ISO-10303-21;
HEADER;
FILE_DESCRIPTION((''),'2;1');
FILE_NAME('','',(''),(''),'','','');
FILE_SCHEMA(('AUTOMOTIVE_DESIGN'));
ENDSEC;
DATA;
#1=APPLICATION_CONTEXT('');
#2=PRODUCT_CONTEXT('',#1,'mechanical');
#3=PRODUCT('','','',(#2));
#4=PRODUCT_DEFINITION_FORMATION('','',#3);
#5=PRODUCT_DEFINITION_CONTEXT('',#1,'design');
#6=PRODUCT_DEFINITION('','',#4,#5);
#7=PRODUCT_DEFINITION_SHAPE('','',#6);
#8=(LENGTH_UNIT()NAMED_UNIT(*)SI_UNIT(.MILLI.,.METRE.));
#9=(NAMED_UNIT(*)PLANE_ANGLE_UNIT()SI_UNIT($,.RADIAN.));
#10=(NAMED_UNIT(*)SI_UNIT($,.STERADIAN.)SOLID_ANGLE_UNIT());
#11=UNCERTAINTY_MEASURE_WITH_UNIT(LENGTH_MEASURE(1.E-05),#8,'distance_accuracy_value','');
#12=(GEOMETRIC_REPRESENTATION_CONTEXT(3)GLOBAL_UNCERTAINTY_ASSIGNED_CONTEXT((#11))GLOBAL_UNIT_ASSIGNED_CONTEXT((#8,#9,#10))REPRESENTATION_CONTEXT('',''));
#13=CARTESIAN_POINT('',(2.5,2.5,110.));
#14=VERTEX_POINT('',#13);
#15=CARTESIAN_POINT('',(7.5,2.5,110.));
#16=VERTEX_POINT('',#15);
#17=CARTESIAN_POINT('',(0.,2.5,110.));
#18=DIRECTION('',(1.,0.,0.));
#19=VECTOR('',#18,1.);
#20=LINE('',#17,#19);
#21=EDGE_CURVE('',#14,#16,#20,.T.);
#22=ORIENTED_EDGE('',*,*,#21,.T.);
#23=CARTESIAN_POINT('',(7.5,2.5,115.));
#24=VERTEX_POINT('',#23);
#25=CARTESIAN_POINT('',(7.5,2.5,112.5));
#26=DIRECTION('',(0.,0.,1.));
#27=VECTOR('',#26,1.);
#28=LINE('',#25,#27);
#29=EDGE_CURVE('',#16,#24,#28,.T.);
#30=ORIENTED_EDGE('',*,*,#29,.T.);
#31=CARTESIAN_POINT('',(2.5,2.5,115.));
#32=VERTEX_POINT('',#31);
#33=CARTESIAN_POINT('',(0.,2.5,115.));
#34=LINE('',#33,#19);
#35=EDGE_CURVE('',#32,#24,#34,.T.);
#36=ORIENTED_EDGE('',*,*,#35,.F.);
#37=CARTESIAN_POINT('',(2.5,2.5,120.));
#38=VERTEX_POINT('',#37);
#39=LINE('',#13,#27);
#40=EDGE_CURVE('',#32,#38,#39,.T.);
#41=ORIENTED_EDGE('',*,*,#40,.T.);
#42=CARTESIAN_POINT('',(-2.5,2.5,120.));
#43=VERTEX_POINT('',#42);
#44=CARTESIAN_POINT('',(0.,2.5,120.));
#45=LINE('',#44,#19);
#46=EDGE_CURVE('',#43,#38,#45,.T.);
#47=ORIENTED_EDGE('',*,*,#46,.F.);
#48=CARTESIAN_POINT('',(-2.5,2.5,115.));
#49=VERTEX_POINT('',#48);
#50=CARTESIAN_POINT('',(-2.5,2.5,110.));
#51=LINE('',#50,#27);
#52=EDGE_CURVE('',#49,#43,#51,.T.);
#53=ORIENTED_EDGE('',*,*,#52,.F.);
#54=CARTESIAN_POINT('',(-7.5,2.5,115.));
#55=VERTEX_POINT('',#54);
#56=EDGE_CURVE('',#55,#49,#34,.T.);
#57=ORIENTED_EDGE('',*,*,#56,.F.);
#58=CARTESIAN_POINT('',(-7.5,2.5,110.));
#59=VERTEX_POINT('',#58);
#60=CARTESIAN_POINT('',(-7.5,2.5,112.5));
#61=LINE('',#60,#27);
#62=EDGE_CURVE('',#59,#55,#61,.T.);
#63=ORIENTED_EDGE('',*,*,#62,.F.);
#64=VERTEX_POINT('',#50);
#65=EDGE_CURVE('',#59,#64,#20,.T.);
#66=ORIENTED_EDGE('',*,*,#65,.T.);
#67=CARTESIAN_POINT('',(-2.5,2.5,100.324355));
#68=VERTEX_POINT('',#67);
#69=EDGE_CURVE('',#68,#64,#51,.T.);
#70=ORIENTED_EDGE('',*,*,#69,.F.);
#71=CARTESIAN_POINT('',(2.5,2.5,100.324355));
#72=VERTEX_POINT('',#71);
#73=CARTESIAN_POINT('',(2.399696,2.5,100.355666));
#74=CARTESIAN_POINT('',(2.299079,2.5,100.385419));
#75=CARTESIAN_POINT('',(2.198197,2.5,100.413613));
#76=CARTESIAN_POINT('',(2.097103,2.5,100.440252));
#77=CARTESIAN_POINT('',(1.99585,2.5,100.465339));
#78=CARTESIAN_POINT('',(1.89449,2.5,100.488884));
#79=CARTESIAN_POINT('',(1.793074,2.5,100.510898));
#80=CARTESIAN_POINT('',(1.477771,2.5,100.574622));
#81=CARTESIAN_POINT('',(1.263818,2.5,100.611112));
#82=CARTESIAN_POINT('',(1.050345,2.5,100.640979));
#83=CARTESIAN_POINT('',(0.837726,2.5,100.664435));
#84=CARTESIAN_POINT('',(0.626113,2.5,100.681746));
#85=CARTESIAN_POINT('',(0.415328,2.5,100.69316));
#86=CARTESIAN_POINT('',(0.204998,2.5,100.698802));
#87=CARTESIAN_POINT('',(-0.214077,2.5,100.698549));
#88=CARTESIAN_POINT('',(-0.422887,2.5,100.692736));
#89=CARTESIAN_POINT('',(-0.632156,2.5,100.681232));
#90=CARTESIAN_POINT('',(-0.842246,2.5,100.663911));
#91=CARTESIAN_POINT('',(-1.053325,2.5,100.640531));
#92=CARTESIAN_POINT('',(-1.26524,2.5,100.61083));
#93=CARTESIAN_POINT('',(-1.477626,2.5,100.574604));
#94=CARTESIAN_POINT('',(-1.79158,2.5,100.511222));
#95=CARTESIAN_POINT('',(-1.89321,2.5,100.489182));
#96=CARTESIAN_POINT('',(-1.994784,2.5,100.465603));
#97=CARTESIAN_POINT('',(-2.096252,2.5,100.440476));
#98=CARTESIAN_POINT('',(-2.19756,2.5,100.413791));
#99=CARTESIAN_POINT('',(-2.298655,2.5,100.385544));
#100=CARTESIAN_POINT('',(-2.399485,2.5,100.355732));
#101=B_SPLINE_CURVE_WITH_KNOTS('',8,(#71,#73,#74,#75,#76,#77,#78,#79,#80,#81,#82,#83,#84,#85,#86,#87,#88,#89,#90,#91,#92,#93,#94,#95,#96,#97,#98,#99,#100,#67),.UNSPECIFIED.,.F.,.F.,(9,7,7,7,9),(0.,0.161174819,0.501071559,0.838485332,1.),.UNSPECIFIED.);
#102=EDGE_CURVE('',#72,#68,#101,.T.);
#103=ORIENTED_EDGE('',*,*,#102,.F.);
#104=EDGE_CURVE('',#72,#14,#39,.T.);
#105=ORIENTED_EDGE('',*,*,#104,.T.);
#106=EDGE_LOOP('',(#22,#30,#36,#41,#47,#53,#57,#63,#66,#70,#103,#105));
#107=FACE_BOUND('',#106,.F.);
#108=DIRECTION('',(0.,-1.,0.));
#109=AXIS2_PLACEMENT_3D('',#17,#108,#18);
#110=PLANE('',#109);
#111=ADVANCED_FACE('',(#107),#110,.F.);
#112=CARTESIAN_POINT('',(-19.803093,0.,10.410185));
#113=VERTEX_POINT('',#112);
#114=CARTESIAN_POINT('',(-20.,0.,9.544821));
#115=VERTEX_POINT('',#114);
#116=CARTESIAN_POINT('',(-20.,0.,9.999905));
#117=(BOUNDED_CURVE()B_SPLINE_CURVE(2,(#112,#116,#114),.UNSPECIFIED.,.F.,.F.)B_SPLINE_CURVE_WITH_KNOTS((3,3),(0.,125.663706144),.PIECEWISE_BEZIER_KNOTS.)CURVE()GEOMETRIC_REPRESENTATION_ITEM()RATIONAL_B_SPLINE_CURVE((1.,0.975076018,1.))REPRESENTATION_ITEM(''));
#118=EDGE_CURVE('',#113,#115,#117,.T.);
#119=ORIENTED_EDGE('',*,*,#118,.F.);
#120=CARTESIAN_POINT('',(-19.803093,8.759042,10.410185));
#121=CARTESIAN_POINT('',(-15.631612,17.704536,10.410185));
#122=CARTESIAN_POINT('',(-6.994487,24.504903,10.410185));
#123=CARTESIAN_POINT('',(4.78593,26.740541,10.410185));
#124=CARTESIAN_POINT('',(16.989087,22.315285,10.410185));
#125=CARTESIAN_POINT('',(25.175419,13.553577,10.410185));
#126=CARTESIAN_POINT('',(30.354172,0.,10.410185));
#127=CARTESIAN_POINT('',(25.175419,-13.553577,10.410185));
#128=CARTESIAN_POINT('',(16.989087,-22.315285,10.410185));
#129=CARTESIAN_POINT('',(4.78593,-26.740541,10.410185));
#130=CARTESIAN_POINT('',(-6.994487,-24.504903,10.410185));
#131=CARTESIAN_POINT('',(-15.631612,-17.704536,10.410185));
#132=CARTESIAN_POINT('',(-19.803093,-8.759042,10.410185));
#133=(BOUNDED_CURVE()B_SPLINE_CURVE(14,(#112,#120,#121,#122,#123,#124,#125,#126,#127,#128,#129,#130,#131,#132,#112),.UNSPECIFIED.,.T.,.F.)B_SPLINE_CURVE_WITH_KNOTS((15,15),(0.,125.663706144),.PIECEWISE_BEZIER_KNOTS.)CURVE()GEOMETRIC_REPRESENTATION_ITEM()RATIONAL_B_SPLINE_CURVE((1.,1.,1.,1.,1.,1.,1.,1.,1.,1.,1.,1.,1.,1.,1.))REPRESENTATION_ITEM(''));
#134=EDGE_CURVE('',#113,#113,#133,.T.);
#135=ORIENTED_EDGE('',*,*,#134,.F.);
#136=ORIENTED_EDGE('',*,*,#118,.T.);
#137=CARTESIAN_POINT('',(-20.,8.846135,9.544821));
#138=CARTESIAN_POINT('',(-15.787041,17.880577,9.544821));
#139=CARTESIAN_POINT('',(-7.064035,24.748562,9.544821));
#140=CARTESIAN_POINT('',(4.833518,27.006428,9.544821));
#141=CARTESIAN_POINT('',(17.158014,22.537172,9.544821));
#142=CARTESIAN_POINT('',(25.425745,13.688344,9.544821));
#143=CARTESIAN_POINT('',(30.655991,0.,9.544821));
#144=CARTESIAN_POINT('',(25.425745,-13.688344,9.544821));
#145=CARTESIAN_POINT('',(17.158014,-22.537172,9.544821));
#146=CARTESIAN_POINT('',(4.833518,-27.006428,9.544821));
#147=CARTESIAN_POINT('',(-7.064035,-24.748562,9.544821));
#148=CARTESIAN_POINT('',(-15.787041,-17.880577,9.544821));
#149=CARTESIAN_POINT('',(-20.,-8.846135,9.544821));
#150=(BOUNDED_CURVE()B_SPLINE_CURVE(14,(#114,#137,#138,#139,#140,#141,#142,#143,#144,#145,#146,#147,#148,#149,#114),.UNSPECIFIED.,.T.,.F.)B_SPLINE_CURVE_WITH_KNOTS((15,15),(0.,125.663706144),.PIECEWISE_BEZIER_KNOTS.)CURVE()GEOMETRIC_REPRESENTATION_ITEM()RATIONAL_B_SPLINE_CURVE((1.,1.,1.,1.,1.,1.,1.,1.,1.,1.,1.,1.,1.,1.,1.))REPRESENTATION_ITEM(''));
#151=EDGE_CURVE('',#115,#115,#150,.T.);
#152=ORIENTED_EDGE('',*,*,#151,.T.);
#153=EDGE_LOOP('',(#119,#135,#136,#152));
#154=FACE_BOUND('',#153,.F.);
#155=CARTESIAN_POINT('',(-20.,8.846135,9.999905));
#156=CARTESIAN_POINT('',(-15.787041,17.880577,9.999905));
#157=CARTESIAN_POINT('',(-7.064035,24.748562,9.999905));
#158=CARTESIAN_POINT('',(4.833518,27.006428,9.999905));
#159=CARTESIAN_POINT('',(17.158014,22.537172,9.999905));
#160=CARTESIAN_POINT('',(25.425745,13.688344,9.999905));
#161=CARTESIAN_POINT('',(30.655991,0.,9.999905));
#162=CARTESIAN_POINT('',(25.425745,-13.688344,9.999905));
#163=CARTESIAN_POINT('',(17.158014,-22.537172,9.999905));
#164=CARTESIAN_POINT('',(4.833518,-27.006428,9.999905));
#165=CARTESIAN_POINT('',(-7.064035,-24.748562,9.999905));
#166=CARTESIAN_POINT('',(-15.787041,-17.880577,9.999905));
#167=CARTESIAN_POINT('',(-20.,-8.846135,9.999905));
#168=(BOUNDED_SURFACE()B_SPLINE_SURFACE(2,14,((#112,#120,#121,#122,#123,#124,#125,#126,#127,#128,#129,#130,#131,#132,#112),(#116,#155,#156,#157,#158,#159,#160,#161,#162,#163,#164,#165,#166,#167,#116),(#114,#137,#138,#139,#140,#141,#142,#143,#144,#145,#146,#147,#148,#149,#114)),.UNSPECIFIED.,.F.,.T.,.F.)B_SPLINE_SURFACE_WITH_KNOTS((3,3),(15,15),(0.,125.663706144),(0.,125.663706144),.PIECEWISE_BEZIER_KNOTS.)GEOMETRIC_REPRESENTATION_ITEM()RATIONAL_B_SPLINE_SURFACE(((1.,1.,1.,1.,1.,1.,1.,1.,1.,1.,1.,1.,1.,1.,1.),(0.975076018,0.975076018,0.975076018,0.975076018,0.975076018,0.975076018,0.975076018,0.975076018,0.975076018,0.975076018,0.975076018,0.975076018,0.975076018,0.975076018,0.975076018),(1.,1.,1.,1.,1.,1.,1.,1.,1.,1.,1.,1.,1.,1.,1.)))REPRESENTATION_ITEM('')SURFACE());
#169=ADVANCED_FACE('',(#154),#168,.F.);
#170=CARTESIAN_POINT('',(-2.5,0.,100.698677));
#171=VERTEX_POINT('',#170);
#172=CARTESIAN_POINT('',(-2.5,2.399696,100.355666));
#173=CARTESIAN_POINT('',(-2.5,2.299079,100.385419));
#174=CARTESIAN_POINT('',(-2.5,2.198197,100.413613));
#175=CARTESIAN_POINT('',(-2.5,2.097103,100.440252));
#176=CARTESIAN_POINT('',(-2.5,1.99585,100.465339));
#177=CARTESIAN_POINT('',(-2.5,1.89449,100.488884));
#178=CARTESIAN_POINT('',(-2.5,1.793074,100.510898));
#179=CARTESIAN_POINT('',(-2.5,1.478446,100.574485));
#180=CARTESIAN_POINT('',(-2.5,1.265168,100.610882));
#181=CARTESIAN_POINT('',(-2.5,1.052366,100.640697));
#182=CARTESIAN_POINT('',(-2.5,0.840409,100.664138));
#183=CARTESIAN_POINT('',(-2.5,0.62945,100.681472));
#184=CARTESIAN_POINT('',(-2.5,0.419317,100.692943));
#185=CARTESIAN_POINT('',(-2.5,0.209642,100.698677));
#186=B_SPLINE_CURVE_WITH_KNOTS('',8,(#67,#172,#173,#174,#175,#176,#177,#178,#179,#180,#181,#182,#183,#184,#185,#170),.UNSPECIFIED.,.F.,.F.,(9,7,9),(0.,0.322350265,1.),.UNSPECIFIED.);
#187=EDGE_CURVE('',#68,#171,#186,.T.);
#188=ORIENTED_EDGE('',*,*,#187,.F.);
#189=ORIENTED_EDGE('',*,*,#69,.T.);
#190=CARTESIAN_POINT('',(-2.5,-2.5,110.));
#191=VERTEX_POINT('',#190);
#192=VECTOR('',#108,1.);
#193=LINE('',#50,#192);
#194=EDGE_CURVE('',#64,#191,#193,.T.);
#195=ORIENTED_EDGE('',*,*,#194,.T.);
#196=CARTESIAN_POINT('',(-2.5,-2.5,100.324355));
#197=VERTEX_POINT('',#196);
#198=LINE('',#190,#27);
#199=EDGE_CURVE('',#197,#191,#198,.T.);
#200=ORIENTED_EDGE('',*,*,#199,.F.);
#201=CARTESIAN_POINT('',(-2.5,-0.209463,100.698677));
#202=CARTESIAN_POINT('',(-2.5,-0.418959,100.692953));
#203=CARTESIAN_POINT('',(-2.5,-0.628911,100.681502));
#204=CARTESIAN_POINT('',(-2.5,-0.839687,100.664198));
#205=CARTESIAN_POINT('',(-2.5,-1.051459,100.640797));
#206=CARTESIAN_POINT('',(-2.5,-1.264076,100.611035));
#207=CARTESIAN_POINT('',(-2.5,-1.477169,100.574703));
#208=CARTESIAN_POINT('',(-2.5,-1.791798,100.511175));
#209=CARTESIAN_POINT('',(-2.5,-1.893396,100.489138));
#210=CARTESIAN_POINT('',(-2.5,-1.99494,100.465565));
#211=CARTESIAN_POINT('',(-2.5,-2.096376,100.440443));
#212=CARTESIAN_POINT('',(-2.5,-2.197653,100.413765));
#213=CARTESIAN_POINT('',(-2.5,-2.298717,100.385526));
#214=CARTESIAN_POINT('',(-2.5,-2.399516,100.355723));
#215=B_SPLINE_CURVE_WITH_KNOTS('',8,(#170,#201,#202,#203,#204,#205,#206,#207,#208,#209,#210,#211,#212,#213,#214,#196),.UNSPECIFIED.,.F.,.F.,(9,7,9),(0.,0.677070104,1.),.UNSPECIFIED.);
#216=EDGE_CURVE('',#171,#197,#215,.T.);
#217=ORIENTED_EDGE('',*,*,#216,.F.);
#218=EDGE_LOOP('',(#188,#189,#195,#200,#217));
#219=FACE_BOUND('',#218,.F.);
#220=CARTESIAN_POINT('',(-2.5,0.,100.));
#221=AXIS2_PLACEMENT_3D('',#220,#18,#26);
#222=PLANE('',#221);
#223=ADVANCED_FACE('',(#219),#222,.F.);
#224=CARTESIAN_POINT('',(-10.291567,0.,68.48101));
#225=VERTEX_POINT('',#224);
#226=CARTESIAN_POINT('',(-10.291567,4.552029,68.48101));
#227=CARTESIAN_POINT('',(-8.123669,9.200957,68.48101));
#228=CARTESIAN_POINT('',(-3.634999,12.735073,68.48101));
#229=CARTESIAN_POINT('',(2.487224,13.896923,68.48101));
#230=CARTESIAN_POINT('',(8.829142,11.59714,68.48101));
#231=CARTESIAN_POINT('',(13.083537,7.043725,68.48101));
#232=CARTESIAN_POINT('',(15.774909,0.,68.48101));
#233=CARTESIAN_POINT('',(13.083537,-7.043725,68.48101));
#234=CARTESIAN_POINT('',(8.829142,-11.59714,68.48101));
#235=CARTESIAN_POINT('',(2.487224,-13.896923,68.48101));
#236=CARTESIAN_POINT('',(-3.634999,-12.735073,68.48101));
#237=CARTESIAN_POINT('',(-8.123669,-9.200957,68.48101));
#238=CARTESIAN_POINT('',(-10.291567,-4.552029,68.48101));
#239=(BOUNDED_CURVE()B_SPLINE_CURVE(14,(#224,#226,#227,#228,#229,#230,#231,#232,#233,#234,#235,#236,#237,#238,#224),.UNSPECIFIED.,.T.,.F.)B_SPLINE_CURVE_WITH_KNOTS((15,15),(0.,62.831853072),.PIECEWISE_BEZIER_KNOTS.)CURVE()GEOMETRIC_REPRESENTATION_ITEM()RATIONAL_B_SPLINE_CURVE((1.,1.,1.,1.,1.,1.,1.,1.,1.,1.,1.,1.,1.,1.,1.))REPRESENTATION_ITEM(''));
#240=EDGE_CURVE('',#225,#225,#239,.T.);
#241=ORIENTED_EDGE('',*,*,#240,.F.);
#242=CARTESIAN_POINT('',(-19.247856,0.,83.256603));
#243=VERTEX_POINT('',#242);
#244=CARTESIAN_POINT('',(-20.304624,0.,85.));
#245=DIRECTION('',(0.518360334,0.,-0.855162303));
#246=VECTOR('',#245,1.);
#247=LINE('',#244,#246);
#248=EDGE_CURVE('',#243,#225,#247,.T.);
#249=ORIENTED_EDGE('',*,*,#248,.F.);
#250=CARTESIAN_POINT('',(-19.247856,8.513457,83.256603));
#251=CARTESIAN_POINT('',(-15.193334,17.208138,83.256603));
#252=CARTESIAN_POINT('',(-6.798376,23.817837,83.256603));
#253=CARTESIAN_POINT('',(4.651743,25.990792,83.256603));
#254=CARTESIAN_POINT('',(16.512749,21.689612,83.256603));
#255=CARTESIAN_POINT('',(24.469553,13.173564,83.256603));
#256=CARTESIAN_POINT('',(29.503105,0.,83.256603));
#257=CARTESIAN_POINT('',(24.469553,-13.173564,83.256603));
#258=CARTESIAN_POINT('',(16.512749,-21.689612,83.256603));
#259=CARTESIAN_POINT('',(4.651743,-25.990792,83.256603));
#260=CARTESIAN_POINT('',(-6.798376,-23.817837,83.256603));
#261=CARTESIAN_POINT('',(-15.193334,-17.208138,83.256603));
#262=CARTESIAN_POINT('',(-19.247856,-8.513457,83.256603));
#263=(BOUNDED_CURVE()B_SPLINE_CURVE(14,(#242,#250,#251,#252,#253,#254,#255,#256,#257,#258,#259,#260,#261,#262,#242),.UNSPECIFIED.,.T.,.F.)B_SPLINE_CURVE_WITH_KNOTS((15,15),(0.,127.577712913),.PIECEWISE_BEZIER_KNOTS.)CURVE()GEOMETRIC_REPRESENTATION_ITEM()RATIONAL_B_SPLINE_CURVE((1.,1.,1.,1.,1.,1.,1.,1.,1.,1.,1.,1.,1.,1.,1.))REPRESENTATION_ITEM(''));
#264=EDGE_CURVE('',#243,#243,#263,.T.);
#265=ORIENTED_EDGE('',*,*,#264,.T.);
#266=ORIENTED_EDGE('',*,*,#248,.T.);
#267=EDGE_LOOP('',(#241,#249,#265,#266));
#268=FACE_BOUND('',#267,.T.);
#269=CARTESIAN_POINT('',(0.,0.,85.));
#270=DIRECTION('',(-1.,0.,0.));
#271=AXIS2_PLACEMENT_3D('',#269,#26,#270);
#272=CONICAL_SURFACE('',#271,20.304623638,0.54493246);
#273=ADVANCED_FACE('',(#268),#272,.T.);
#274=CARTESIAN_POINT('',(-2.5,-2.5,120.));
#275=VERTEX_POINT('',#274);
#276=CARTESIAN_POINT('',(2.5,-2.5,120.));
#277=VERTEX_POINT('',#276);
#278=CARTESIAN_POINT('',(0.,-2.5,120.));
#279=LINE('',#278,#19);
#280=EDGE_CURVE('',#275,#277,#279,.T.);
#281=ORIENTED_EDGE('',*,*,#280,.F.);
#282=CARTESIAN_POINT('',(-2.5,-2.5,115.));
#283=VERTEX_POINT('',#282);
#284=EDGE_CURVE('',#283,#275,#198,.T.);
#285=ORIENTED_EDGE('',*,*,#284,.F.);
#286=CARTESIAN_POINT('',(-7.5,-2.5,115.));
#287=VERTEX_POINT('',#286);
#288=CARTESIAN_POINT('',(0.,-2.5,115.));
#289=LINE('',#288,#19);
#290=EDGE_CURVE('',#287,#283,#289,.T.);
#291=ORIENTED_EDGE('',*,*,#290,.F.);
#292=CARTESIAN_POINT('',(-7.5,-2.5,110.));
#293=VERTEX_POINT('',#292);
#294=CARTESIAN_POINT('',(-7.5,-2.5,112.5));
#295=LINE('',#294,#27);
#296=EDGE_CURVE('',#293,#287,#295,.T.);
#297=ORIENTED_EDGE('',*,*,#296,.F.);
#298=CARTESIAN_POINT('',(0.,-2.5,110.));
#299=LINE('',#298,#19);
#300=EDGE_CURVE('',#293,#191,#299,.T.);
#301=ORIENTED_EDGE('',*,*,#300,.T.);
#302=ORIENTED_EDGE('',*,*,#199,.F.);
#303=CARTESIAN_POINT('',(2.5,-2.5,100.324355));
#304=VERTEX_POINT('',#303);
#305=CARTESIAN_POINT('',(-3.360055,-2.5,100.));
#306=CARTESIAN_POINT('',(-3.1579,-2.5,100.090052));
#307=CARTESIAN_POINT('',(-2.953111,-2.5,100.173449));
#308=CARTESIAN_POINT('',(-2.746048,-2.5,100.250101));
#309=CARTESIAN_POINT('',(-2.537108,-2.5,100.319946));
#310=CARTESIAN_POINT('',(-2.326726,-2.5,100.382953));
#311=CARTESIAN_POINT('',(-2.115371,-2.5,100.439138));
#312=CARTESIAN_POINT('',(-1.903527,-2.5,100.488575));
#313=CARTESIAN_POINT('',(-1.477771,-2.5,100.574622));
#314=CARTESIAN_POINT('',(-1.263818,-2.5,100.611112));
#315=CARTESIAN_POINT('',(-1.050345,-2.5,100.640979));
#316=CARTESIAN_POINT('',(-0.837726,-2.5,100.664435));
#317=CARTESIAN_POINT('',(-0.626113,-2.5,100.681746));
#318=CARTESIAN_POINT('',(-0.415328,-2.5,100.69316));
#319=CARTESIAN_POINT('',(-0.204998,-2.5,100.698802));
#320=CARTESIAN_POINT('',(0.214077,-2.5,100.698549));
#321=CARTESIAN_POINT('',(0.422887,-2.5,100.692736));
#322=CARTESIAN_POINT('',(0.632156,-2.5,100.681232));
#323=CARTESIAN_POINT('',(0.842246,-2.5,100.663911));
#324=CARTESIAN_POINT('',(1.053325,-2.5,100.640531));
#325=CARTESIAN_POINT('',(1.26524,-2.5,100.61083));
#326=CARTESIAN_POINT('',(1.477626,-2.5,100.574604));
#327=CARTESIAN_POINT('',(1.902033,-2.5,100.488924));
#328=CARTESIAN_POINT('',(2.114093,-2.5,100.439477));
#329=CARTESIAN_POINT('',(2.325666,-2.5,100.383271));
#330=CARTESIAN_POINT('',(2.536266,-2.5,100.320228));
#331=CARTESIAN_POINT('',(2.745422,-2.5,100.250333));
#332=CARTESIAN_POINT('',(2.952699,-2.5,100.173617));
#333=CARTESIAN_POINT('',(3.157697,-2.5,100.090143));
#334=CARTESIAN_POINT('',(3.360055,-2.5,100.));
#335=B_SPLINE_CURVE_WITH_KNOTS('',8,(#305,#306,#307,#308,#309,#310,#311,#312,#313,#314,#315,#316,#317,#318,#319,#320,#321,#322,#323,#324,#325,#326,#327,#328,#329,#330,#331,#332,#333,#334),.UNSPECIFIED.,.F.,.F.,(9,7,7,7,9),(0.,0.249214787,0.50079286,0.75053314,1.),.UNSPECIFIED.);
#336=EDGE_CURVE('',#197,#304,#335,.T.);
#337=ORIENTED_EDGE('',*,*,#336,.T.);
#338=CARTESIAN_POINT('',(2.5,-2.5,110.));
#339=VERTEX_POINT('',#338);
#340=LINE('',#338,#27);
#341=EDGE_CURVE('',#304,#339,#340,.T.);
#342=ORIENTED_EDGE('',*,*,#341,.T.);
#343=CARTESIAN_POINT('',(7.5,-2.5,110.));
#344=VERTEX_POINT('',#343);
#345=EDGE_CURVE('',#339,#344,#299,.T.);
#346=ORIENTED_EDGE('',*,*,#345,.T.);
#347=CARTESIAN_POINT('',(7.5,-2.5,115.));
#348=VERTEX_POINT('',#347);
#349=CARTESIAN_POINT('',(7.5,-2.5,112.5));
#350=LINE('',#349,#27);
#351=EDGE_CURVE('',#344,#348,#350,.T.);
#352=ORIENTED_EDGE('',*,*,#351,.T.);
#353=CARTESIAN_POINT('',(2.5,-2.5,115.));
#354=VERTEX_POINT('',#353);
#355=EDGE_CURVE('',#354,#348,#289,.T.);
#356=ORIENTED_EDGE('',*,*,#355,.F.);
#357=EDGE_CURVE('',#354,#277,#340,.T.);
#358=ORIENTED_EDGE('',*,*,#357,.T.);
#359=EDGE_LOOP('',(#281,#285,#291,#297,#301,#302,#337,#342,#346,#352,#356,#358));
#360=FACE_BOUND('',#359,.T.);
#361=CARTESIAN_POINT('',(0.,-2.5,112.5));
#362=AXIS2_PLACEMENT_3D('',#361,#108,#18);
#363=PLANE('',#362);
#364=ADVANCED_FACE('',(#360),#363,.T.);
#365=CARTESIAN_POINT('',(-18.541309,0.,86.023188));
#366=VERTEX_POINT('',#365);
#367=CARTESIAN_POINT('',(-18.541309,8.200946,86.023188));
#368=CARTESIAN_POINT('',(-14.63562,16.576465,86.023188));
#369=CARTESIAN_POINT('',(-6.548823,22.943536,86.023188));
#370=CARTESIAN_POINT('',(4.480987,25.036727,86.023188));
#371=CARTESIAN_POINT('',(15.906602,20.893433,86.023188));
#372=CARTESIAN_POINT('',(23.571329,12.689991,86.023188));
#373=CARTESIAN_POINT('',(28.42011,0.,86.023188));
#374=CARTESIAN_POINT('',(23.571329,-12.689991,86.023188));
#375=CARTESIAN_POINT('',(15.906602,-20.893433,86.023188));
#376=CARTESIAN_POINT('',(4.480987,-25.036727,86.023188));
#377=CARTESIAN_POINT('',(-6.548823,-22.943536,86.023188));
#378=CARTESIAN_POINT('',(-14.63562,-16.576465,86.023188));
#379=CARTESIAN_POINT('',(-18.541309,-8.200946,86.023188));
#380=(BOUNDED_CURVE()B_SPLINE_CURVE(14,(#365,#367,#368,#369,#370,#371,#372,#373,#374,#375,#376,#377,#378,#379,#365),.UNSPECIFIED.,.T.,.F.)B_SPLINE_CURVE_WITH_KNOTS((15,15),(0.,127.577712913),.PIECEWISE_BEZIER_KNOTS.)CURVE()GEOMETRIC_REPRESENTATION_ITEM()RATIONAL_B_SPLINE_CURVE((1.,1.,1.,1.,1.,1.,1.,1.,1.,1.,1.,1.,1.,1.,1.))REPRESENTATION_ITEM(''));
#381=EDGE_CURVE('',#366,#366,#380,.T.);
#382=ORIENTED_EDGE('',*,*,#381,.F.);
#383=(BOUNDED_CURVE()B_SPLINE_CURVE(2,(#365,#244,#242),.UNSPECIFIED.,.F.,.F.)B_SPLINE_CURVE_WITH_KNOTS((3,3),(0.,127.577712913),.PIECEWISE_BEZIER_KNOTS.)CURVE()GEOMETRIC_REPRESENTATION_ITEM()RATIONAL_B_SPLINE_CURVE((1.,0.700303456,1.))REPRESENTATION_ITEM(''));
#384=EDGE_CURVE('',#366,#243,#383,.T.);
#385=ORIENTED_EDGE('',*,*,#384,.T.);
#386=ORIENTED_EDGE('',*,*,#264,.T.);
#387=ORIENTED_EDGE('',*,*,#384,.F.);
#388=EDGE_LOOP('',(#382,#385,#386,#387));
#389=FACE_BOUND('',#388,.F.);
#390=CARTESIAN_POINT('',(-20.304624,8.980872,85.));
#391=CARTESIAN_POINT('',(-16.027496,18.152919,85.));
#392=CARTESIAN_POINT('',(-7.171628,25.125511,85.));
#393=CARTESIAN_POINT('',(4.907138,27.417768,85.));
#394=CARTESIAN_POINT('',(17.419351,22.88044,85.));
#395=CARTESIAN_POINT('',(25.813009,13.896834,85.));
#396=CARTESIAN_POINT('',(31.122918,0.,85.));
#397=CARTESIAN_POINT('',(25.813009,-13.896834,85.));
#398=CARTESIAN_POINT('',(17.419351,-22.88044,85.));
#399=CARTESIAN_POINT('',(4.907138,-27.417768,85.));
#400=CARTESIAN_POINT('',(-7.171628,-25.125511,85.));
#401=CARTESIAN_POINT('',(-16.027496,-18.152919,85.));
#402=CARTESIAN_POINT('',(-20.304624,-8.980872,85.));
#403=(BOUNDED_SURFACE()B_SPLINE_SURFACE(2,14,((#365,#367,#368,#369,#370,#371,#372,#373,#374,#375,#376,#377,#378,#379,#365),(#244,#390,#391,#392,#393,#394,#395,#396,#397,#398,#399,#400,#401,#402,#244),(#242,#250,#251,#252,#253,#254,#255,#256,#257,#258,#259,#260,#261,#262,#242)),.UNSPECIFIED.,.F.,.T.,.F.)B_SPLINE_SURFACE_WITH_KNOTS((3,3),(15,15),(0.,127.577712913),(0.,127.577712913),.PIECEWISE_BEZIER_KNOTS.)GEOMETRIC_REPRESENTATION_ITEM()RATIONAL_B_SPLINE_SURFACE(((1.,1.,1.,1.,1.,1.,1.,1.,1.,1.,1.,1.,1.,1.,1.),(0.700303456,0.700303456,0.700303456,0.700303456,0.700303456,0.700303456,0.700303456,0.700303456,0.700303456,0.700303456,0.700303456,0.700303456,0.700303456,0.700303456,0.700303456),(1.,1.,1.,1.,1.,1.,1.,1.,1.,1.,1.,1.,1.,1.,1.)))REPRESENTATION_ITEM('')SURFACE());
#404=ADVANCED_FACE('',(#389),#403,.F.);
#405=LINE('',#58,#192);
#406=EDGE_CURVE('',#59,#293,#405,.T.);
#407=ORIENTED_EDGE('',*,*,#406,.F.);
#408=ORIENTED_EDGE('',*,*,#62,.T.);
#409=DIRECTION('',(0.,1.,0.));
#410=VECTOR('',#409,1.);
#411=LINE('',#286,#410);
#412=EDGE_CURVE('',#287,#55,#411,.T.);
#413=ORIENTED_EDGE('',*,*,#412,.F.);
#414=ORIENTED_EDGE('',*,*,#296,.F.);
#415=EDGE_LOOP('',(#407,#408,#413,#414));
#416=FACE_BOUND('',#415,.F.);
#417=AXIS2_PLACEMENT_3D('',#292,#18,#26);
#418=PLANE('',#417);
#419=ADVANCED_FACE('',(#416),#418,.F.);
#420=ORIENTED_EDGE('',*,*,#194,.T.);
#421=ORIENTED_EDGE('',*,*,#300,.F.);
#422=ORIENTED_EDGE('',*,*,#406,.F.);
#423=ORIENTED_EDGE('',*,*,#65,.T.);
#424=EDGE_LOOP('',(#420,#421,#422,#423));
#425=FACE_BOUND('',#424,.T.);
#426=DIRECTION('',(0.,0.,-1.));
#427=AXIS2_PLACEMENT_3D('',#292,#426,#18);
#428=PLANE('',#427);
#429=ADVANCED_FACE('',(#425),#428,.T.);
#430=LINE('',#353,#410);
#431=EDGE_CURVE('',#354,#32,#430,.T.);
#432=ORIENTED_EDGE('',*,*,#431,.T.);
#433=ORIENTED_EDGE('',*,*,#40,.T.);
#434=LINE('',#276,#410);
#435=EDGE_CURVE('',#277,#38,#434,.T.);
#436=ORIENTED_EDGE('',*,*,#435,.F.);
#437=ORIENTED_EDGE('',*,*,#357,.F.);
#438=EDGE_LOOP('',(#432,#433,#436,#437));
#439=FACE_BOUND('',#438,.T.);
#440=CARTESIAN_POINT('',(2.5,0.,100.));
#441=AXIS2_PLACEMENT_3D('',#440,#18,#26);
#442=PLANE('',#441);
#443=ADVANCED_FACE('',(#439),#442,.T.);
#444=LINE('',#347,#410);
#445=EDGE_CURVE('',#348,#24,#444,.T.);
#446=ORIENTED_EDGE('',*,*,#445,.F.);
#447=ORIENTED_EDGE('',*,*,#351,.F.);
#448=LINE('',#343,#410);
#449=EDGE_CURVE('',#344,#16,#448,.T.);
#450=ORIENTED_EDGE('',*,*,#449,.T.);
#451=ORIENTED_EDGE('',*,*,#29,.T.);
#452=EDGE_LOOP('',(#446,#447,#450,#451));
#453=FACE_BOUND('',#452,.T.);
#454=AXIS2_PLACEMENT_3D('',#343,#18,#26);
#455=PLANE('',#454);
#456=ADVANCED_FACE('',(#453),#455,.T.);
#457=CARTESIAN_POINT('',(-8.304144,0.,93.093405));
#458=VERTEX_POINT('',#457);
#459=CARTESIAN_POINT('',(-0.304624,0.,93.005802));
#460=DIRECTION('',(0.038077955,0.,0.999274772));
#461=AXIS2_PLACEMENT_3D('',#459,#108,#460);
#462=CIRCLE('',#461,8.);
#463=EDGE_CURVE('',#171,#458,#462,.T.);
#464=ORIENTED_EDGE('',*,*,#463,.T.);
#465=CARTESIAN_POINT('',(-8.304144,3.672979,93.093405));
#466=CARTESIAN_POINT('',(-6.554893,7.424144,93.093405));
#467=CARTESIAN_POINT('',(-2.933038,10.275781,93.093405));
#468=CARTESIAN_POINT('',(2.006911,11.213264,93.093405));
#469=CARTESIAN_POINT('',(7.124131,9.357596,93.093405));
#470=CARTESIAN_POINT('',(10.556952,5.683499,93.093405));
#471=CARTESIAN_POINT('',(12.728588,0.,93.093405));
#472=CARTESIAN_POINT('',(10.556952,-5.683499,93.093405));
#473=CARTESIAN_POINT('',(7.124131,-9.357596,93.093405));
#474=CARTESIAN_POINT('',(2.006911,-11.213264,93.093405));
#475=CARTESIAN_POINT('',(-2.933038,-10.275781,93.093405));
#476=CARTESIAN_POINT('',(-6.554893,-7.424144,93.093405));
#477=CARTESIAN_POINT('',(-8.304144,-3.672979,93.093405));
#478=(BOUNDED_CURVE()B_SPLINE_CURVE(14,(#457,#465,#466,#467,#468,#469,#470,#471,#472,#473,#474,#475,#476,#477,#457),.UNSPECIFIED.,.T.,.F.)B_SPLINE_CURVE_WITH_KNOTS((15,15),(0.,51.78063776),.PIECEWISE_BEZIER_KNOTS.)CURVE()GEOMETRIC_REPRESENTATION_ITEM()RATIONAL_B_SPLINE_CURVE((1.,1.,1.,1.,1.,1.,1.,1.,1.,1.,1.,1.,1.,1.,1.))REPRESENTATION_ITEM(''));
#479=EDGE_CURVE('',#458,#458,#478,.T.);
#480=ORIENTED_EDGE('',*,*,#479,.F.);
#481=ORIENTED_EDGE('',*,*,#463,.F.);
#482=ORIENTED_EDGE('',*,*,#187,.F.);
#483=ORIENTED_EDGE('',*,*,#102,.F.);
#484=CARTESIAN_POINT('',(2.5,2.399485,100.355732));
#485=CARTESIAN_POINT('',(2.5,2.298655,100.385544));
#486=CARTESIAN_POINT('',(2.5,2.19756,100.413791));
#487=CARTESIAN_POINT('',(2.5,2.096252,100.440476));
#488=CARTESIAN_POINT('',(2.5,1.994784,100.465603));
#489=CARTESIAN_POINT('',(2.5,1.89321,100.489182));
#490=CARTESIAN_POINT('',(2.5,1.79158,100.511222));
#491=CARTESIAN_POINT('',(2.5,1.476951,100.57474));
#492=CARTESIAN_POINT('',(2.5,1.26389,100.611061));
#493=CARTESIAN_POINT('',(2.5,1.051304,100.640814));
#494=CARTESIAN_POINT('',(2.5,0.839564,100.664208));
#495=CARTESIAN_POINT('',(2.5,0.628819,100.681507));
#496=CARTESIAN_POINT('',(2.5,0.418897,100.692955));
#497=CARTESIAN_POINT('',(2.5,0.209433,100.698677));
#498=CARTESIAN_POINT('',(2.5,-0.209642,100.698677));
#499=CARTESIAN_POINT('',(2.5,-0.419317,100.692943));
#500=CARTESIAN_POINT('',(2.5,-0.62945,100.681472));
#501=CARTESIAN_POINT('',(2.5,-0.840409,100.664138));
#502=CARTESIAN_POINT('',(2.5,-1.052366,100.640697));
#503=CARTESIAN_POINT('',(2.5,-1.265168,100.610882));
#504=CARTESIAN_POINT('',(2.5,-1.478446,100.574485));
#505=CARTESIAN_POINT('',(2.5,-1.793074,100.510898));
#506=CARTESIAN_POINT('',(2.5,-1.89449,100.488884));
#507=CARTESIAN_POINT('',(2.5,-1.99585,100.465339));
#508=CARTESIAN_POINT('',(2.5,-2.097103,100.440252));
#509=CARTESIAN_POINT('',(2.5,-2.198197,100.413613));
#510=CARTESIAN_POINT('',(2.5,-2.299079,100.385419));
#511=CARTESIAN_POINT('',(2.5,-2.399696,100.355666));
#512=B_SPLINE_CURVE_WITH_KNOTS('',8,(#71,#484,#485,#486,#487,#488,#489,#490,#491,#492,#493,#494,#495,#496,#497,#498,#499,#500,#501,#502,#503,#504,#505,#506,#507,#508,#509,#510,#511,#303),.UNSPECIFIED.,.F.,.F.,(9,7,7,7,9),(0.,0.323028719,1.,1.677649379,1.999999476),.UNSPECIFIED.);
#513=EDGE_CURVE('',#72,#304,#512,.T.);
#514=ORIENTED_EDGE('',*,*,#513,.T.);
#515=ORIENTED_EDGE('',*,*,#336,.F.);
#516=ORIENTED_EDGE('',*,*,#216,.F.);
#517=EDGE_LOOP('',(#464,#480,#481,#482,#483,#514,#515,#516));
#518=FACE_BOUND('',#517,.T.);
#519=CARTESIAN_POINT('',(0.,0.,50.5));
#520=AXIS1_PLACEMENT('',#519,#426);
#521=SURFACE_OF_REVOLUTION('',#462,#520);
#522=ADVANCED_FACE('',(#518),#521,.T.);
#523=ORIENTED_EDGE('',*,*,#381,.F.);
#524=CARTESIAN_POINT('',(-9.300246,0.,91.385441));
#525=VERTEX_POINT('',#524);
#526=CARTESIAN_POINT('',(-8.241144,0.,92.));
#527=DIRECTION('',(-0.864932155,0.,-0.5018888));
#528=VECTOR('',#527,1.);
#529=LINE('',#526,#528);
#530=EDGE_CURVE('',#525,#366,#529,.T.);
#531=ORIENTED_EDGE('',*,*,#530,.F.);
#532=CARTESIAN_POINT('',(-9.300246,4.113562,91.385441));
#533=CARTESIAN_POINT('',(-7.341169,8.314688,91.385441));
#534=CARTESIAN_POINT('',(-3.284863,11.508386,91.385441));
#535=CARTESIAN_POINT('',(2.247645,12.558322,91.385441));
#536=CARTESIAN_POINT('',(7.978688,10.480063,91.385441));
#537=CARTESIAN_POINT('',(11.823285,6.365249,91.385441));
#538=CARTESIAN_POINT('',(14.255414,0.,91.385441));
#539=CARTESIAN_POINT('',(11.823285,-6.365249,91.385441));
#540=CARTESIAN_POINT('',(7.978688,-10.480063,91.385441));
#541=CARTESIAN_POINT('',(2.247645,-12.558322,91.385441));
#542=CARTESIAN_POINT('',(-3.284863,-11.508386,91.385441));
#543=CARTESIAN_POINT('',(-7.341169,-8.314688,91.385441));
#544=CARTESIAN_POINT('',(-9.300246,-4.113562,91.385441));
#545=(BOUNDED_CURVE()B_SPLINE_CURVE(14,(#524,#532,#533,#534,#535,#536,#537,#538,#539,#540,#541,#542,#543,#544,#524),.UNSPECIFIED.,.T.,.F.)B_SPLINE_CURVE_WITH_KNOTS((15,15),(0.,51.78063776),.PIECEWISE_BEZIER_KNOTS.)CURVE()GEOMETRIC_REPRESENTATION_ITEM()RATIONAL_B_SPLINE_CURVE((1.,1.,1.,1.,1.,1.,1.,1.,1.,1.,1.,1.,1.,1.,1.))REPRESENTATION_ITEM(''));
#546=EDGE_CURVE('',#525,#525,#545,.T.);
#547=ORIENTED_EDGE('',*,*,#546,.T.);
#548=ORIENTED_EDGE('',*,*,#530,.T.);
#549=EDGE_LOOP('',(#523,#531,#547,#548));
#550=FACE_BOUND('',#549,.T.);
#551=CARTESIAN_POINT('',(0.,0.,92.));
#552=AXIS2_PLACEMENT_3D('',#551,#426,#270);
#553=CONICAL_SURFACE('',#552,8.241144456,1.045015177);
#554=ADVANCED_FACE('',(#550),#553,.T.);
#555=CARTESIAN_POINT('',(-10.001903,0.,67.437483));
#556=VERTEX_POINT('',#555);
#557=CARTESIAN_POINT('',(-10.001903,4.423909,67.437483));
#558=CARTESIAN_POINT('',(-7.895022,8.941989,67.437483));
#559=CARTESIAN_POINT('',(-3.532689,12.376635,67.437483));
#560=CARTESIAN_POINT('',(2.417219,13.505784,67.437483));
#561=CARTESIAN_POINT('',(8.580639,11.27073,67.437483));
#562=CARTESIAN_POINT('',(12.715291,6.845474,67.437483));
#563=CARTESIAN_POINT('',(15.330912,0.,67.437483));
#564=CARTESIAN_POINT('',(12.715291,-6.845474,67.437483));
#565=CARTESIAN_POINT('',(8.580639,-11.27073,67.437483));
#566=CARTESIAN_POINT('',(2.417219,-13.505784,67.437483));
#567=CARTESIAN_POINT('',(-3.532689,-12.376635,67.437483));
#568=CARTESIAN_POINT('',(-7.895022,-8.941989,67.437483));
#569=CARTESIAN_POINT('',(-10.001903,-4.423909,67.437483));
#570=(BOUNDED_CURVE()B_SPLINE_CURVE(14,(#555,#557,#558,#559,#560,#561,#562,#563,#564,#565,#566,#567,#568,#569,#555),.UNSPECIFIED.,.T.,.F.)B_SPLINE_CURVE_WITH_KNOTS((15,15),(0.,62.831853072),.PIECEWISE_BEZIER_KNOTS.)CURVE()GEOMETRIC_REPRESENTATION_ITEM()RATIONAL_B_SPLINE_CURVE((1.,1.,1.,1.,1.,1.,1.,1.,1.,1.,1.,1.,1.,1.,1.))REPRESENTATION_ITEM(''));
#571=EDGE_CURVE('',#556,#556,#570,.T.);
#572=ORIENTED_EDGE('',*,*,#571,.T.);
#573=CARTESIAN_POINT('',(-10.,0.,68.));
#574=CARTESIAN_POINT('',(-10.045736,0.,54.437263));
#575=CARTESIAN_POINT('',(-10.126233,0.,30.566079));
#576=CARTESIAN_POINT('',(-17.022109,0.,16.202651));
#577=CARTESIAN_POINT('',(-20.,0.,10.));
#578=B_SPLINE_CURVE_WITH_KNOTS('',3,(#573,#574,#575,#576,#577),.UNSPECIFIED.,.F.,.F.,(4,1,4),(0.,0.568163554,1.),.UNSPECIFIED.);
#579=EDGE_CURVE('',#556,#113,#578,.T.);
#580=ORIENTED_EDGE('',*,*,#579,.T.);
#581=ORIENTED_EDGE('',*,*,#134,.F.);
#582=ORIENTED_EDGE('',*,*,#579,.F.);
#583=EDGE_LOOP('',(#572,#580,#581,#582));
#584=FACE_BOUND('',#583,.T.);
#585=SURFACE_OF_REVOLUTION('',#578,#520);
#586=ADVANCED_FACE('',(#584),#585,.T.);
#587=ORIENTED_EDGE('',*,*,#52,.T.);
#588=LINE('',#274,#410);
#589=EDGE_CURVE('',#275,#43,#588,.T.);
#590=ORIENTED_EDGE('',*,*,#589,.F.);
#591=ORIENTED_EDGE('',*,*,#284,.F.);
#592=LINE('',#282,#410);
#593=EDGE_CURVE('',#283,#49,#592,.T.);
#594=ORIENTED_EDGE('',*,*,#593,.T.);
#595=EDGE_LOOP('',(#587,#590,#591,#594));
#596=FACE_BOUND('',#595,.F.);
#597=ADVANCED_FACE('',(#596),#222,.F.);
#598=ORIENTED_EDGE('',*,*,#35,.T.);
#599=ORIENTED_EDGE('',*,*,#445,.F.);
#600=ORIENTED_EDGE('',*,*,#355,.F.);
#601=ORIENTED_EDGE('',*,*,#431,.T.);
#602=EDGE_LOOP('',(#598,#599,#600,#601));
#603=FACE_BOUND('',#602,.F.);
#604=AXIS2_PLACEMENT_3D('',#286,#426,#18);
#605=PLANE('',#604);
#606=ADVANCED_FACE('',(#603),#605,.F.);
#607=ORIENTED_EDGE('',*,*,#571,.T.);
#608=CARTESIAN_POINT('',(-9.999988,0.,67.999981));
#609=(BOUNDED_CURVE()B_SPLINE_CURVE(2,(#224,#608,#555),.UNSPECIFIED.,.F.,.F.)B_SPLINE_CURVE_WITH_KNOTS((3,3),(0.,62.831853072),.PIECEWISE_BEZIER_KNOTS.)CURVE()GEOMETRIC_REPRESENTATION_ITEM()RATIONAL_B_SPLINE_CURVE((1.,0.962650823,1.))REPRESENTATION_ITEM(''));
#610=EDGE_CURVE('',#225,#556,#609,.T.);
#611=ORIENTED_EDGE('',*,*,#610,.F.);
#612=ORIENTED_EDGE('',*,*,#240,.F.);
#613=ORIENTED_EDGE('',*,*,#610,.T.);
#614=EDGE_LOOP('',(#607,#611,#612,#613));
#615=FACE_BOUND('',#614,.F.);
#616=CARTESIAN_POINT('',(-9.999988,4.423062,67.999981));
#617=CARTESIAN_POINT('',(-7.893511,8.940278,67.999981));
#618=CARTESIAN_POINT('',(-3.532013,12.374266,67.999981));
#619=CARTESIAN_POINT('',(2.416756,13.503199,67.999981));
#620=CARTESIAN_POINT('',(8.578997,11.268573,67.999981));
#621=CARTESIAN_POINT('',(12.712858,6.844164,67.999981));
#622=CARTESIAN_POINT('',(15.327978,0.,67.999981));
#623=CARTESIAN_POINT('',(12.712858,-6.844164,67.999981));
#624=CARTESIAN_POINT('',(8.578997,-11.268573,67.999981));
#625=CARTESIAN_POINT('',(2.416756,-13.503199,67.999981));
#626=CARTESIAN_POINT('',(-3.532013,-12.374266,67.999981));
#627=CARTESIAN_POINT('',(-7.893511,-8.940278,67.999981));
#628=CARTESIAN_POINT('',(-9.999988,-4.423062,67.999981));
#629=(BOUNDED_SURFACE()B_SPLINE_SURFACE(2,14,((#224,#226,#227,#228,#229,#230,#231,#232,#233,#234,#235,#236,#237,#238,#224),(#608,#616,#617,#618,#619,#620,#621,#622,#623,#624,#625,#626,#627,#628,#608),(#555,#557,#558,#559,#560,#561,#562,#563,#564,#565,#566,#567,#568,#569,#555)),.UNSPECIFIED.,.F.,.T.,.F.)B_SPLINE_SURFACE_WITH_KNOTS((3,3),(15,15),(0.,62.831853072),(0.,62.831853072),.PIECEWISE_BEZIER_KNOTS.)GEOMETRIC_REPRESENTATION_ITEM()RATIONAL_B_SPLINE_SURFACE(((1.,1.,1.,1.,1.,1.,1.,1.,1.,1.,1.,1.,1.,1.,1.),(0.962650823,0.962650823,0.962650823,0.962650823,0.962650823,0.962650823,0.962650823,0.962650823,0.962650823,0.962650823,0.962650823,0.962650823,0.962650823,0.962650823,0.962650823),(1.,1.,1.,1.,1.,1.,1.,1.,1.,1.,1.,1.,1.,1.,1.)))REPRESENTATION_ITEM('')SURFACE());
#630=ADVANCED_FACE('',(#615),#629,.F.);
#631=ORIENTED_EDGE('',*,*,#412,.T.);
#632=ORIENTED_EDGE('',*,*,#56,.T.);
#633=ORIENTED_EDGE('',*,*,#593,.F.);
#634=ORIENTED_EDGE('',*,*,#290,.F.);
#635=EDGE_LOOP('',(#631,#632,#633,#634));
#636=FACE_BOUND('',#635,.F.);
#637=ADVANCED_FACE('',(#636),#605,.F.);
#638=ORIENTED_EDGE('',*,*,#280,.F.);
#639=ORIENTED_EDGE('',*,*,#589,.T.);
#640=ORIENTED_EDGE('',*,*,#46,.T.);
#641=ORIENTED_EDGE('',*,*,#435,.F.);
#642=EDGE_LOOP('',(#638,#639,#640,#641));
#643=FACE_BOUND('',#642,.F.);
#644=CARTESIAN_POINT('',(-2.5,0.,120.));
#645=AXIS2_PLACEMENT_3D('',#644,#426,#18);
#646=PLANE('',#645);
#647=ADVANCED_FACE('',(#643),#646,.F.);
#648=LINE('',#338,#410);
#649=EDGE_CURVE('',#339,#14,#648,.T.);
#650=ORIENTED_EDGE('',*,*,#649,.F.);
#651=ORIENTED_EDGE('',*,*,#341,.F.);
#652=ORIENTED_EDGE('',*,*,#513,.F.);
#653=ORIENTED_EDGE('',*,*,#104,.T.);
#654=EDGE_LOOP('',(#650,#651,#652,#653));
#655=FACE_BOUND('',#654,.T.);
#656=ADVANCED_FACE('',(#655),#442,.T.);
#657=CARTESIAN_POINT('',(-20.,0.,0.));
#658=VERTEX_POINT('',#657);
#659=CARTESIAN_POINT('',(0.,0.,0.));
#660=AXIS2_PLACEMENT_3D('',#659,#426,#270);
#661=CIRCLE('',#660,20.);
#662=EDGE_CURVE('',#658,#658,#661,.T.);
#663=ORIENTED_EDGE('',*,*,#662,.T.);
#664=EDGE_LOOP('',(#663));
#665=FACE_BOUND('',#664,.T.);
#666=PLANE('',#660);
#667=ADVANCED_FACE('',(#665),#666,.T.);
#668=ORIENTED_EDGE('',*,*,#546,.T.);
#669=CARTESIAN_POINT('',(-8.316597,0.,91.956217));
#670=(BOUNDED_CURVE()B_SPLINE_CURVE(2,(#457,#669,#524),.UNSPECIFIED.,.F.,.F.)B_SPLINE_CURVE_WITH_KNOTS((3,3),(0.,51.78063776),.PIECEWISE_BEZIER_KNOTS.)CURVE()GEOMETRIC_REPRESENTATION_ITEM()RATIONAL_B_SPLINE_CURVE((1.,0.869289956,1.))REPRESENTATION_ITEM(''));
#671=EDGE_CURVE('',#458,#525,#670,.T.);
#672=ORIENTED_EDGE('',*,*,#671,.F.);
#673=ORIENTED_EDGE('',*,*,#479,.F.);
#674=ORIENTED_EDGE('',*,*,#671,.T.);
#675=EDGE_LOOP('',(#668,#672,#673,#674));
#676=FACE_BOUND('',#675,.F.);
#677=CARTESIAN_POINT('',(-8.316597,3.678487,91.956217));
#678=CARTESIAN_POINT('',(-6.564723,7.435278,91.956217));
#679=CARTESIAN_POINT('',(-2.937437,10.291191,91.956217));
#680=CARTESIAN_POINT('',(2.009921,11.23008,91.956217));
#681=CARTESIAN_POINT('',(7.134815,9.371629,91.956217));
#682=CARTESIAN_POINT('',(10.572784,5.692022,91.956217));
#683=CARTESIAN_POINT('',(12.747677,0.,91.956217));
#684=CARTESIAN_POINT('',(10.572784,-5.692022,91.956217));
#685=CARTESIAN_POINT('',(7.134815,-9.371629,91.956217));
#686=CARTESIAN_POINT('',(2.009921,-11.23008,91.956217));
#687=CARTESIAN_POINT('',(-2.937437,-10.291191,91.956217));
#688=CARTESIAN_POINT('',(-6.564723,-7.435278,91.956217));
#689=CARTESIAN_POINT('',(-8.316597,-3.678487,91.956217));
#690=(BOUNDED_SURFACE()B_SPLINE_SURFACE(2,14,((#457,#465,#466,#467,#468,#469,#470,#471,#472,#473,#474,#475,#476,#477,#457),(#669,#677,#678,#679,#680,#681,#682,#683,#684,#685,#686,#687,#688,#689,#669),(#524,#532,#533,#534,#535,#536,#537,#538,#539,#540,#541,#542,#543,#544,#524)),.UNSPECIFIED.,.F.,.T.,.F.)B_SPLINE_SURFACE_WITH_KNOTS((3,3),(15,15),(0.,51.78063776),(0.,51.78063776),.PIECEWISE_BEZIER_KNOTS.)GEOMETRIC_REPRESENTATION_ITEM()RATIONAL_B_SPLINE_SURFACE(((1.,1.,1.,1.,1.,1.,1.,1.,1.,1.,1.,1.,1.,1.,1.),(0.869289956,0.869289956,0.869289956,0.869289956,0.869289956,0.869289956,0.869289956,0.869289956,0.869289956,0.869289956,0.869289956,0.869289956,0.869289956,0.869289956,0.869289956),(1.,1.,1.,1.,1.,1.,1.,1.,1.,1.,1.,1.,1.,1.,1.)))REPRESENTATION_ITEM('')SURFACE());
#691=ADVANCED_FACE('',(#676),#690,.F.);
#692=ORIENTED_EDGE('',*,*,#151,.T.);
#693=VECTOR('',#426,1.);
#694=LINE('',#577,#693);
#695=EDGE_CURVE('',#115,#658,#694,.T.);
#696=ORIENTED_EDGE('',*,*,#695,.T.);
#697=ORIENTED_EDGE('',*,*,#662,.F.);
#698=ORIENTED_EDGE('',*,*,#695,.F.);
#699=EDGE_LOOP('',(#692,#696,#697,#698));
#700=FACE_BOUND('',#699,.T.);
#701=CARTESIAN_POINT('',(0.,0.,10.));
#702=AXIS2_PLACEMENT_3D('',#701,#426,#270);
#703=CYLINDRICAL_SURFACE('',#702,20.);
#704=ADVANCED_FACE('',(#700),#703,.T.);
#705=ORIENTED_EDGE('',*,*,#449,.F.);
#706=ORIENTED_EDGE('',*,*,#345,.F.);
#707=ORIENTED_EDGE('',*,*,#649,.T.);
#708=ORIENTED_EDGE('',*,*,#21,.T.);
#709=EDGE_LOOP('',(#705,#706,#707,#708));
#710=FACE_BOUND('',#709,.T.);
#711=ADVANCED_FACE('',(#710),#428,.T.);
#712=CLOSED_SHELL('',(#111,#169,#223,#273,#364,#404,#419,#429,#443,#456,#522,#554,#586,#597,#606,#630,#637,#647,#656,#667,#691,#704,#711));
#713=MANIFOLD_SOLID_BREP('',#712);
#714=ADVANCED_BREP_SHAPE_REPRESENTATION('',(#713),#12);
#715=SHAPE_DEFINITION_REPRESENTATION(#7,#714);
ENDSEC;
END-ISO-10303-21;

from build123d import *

# Parameters (mm, degrees)
F0_W     = 5
F0_H     = 20
F1_DEPTH = 2.5
F2_W     = 15
F2_H     = 5
F3_DEPTH = 2.5
F6_DEPTH = 2.5
F7_DEPTH = 5
F8_R     = 2


with BuildPart() as f1:
    # F0 (on Front) → F1 (new body)
    with BuildSketch(Plane.XZ):
        with Locations((0, 110)):
            Rectangle(F0_W, F0_H)
    extrude(amount=F1_DEPTH)

    # F2 (on face) → F3 (join)
    with BuildSketch(Plane.XZ.offset(2.5)):
        with Locations((0, 112.5)):
            Rectangle(F2_W, F2_H)
    extrude(amount=-F3_DEPTH)

    # F4 (on Front) → F5 (revolve)
    with BuildSketch(Plane.XZ):
        with BuildLine():
            ThreePointArc((0, 101), (-6.2047476742, 98.408443436), (-8.2411444559, 92))
            Line((-8.2411444559, 92), (-20.3046236384, 85))
            Line((-20.3046236384, 85), (-10, 68))
            add(Edge.make_bspline(
                [(-10, 68), (-10.0457358367, 54.4372630993), (-10.1262334968, 30.5660788152), (-17.0221094404, 16.2026514332), (-20, 10)],
                knots=[0, 0, 0, 0, 0.568163554, 1, 1, 1, 1], degree=3))
            Line((-20, 10), (-20, 0))
            Line((-20, 0), (0, 0))
            Line((0, 0), (0, 101))
        make_face()
    revolve(axis=Axis((0, 0, 50.5), (0, 0, -1)))

    # F0 (on Front) → F6 (join)
    with BuildSketch(Plane.XZ):
        with Locations((0, 110)):
            Rectangle(F0_W, F0_H)
    extrude(amount=-F6_DEPTH)

    # F2 (on face) → F7 (join)
    with BuildSketch(Plane.XZ.offset(2.5)):
        with Locations((0, 112.5)):
            Rectangle(F2_W, F2_H)
    extrude(amount=-F7_DEPTH)

    # F8
    f8_edges = [f1.edges().sort_by_distance(p)[0] for p in [
        (20.304624, 0, 85),
        (20, 0, 10),
        (10, 0, 68),
        (8.241144, 0, 92),
    ]]
    fillet(f8_edges, radius=F8_R)


solid = f1.part
